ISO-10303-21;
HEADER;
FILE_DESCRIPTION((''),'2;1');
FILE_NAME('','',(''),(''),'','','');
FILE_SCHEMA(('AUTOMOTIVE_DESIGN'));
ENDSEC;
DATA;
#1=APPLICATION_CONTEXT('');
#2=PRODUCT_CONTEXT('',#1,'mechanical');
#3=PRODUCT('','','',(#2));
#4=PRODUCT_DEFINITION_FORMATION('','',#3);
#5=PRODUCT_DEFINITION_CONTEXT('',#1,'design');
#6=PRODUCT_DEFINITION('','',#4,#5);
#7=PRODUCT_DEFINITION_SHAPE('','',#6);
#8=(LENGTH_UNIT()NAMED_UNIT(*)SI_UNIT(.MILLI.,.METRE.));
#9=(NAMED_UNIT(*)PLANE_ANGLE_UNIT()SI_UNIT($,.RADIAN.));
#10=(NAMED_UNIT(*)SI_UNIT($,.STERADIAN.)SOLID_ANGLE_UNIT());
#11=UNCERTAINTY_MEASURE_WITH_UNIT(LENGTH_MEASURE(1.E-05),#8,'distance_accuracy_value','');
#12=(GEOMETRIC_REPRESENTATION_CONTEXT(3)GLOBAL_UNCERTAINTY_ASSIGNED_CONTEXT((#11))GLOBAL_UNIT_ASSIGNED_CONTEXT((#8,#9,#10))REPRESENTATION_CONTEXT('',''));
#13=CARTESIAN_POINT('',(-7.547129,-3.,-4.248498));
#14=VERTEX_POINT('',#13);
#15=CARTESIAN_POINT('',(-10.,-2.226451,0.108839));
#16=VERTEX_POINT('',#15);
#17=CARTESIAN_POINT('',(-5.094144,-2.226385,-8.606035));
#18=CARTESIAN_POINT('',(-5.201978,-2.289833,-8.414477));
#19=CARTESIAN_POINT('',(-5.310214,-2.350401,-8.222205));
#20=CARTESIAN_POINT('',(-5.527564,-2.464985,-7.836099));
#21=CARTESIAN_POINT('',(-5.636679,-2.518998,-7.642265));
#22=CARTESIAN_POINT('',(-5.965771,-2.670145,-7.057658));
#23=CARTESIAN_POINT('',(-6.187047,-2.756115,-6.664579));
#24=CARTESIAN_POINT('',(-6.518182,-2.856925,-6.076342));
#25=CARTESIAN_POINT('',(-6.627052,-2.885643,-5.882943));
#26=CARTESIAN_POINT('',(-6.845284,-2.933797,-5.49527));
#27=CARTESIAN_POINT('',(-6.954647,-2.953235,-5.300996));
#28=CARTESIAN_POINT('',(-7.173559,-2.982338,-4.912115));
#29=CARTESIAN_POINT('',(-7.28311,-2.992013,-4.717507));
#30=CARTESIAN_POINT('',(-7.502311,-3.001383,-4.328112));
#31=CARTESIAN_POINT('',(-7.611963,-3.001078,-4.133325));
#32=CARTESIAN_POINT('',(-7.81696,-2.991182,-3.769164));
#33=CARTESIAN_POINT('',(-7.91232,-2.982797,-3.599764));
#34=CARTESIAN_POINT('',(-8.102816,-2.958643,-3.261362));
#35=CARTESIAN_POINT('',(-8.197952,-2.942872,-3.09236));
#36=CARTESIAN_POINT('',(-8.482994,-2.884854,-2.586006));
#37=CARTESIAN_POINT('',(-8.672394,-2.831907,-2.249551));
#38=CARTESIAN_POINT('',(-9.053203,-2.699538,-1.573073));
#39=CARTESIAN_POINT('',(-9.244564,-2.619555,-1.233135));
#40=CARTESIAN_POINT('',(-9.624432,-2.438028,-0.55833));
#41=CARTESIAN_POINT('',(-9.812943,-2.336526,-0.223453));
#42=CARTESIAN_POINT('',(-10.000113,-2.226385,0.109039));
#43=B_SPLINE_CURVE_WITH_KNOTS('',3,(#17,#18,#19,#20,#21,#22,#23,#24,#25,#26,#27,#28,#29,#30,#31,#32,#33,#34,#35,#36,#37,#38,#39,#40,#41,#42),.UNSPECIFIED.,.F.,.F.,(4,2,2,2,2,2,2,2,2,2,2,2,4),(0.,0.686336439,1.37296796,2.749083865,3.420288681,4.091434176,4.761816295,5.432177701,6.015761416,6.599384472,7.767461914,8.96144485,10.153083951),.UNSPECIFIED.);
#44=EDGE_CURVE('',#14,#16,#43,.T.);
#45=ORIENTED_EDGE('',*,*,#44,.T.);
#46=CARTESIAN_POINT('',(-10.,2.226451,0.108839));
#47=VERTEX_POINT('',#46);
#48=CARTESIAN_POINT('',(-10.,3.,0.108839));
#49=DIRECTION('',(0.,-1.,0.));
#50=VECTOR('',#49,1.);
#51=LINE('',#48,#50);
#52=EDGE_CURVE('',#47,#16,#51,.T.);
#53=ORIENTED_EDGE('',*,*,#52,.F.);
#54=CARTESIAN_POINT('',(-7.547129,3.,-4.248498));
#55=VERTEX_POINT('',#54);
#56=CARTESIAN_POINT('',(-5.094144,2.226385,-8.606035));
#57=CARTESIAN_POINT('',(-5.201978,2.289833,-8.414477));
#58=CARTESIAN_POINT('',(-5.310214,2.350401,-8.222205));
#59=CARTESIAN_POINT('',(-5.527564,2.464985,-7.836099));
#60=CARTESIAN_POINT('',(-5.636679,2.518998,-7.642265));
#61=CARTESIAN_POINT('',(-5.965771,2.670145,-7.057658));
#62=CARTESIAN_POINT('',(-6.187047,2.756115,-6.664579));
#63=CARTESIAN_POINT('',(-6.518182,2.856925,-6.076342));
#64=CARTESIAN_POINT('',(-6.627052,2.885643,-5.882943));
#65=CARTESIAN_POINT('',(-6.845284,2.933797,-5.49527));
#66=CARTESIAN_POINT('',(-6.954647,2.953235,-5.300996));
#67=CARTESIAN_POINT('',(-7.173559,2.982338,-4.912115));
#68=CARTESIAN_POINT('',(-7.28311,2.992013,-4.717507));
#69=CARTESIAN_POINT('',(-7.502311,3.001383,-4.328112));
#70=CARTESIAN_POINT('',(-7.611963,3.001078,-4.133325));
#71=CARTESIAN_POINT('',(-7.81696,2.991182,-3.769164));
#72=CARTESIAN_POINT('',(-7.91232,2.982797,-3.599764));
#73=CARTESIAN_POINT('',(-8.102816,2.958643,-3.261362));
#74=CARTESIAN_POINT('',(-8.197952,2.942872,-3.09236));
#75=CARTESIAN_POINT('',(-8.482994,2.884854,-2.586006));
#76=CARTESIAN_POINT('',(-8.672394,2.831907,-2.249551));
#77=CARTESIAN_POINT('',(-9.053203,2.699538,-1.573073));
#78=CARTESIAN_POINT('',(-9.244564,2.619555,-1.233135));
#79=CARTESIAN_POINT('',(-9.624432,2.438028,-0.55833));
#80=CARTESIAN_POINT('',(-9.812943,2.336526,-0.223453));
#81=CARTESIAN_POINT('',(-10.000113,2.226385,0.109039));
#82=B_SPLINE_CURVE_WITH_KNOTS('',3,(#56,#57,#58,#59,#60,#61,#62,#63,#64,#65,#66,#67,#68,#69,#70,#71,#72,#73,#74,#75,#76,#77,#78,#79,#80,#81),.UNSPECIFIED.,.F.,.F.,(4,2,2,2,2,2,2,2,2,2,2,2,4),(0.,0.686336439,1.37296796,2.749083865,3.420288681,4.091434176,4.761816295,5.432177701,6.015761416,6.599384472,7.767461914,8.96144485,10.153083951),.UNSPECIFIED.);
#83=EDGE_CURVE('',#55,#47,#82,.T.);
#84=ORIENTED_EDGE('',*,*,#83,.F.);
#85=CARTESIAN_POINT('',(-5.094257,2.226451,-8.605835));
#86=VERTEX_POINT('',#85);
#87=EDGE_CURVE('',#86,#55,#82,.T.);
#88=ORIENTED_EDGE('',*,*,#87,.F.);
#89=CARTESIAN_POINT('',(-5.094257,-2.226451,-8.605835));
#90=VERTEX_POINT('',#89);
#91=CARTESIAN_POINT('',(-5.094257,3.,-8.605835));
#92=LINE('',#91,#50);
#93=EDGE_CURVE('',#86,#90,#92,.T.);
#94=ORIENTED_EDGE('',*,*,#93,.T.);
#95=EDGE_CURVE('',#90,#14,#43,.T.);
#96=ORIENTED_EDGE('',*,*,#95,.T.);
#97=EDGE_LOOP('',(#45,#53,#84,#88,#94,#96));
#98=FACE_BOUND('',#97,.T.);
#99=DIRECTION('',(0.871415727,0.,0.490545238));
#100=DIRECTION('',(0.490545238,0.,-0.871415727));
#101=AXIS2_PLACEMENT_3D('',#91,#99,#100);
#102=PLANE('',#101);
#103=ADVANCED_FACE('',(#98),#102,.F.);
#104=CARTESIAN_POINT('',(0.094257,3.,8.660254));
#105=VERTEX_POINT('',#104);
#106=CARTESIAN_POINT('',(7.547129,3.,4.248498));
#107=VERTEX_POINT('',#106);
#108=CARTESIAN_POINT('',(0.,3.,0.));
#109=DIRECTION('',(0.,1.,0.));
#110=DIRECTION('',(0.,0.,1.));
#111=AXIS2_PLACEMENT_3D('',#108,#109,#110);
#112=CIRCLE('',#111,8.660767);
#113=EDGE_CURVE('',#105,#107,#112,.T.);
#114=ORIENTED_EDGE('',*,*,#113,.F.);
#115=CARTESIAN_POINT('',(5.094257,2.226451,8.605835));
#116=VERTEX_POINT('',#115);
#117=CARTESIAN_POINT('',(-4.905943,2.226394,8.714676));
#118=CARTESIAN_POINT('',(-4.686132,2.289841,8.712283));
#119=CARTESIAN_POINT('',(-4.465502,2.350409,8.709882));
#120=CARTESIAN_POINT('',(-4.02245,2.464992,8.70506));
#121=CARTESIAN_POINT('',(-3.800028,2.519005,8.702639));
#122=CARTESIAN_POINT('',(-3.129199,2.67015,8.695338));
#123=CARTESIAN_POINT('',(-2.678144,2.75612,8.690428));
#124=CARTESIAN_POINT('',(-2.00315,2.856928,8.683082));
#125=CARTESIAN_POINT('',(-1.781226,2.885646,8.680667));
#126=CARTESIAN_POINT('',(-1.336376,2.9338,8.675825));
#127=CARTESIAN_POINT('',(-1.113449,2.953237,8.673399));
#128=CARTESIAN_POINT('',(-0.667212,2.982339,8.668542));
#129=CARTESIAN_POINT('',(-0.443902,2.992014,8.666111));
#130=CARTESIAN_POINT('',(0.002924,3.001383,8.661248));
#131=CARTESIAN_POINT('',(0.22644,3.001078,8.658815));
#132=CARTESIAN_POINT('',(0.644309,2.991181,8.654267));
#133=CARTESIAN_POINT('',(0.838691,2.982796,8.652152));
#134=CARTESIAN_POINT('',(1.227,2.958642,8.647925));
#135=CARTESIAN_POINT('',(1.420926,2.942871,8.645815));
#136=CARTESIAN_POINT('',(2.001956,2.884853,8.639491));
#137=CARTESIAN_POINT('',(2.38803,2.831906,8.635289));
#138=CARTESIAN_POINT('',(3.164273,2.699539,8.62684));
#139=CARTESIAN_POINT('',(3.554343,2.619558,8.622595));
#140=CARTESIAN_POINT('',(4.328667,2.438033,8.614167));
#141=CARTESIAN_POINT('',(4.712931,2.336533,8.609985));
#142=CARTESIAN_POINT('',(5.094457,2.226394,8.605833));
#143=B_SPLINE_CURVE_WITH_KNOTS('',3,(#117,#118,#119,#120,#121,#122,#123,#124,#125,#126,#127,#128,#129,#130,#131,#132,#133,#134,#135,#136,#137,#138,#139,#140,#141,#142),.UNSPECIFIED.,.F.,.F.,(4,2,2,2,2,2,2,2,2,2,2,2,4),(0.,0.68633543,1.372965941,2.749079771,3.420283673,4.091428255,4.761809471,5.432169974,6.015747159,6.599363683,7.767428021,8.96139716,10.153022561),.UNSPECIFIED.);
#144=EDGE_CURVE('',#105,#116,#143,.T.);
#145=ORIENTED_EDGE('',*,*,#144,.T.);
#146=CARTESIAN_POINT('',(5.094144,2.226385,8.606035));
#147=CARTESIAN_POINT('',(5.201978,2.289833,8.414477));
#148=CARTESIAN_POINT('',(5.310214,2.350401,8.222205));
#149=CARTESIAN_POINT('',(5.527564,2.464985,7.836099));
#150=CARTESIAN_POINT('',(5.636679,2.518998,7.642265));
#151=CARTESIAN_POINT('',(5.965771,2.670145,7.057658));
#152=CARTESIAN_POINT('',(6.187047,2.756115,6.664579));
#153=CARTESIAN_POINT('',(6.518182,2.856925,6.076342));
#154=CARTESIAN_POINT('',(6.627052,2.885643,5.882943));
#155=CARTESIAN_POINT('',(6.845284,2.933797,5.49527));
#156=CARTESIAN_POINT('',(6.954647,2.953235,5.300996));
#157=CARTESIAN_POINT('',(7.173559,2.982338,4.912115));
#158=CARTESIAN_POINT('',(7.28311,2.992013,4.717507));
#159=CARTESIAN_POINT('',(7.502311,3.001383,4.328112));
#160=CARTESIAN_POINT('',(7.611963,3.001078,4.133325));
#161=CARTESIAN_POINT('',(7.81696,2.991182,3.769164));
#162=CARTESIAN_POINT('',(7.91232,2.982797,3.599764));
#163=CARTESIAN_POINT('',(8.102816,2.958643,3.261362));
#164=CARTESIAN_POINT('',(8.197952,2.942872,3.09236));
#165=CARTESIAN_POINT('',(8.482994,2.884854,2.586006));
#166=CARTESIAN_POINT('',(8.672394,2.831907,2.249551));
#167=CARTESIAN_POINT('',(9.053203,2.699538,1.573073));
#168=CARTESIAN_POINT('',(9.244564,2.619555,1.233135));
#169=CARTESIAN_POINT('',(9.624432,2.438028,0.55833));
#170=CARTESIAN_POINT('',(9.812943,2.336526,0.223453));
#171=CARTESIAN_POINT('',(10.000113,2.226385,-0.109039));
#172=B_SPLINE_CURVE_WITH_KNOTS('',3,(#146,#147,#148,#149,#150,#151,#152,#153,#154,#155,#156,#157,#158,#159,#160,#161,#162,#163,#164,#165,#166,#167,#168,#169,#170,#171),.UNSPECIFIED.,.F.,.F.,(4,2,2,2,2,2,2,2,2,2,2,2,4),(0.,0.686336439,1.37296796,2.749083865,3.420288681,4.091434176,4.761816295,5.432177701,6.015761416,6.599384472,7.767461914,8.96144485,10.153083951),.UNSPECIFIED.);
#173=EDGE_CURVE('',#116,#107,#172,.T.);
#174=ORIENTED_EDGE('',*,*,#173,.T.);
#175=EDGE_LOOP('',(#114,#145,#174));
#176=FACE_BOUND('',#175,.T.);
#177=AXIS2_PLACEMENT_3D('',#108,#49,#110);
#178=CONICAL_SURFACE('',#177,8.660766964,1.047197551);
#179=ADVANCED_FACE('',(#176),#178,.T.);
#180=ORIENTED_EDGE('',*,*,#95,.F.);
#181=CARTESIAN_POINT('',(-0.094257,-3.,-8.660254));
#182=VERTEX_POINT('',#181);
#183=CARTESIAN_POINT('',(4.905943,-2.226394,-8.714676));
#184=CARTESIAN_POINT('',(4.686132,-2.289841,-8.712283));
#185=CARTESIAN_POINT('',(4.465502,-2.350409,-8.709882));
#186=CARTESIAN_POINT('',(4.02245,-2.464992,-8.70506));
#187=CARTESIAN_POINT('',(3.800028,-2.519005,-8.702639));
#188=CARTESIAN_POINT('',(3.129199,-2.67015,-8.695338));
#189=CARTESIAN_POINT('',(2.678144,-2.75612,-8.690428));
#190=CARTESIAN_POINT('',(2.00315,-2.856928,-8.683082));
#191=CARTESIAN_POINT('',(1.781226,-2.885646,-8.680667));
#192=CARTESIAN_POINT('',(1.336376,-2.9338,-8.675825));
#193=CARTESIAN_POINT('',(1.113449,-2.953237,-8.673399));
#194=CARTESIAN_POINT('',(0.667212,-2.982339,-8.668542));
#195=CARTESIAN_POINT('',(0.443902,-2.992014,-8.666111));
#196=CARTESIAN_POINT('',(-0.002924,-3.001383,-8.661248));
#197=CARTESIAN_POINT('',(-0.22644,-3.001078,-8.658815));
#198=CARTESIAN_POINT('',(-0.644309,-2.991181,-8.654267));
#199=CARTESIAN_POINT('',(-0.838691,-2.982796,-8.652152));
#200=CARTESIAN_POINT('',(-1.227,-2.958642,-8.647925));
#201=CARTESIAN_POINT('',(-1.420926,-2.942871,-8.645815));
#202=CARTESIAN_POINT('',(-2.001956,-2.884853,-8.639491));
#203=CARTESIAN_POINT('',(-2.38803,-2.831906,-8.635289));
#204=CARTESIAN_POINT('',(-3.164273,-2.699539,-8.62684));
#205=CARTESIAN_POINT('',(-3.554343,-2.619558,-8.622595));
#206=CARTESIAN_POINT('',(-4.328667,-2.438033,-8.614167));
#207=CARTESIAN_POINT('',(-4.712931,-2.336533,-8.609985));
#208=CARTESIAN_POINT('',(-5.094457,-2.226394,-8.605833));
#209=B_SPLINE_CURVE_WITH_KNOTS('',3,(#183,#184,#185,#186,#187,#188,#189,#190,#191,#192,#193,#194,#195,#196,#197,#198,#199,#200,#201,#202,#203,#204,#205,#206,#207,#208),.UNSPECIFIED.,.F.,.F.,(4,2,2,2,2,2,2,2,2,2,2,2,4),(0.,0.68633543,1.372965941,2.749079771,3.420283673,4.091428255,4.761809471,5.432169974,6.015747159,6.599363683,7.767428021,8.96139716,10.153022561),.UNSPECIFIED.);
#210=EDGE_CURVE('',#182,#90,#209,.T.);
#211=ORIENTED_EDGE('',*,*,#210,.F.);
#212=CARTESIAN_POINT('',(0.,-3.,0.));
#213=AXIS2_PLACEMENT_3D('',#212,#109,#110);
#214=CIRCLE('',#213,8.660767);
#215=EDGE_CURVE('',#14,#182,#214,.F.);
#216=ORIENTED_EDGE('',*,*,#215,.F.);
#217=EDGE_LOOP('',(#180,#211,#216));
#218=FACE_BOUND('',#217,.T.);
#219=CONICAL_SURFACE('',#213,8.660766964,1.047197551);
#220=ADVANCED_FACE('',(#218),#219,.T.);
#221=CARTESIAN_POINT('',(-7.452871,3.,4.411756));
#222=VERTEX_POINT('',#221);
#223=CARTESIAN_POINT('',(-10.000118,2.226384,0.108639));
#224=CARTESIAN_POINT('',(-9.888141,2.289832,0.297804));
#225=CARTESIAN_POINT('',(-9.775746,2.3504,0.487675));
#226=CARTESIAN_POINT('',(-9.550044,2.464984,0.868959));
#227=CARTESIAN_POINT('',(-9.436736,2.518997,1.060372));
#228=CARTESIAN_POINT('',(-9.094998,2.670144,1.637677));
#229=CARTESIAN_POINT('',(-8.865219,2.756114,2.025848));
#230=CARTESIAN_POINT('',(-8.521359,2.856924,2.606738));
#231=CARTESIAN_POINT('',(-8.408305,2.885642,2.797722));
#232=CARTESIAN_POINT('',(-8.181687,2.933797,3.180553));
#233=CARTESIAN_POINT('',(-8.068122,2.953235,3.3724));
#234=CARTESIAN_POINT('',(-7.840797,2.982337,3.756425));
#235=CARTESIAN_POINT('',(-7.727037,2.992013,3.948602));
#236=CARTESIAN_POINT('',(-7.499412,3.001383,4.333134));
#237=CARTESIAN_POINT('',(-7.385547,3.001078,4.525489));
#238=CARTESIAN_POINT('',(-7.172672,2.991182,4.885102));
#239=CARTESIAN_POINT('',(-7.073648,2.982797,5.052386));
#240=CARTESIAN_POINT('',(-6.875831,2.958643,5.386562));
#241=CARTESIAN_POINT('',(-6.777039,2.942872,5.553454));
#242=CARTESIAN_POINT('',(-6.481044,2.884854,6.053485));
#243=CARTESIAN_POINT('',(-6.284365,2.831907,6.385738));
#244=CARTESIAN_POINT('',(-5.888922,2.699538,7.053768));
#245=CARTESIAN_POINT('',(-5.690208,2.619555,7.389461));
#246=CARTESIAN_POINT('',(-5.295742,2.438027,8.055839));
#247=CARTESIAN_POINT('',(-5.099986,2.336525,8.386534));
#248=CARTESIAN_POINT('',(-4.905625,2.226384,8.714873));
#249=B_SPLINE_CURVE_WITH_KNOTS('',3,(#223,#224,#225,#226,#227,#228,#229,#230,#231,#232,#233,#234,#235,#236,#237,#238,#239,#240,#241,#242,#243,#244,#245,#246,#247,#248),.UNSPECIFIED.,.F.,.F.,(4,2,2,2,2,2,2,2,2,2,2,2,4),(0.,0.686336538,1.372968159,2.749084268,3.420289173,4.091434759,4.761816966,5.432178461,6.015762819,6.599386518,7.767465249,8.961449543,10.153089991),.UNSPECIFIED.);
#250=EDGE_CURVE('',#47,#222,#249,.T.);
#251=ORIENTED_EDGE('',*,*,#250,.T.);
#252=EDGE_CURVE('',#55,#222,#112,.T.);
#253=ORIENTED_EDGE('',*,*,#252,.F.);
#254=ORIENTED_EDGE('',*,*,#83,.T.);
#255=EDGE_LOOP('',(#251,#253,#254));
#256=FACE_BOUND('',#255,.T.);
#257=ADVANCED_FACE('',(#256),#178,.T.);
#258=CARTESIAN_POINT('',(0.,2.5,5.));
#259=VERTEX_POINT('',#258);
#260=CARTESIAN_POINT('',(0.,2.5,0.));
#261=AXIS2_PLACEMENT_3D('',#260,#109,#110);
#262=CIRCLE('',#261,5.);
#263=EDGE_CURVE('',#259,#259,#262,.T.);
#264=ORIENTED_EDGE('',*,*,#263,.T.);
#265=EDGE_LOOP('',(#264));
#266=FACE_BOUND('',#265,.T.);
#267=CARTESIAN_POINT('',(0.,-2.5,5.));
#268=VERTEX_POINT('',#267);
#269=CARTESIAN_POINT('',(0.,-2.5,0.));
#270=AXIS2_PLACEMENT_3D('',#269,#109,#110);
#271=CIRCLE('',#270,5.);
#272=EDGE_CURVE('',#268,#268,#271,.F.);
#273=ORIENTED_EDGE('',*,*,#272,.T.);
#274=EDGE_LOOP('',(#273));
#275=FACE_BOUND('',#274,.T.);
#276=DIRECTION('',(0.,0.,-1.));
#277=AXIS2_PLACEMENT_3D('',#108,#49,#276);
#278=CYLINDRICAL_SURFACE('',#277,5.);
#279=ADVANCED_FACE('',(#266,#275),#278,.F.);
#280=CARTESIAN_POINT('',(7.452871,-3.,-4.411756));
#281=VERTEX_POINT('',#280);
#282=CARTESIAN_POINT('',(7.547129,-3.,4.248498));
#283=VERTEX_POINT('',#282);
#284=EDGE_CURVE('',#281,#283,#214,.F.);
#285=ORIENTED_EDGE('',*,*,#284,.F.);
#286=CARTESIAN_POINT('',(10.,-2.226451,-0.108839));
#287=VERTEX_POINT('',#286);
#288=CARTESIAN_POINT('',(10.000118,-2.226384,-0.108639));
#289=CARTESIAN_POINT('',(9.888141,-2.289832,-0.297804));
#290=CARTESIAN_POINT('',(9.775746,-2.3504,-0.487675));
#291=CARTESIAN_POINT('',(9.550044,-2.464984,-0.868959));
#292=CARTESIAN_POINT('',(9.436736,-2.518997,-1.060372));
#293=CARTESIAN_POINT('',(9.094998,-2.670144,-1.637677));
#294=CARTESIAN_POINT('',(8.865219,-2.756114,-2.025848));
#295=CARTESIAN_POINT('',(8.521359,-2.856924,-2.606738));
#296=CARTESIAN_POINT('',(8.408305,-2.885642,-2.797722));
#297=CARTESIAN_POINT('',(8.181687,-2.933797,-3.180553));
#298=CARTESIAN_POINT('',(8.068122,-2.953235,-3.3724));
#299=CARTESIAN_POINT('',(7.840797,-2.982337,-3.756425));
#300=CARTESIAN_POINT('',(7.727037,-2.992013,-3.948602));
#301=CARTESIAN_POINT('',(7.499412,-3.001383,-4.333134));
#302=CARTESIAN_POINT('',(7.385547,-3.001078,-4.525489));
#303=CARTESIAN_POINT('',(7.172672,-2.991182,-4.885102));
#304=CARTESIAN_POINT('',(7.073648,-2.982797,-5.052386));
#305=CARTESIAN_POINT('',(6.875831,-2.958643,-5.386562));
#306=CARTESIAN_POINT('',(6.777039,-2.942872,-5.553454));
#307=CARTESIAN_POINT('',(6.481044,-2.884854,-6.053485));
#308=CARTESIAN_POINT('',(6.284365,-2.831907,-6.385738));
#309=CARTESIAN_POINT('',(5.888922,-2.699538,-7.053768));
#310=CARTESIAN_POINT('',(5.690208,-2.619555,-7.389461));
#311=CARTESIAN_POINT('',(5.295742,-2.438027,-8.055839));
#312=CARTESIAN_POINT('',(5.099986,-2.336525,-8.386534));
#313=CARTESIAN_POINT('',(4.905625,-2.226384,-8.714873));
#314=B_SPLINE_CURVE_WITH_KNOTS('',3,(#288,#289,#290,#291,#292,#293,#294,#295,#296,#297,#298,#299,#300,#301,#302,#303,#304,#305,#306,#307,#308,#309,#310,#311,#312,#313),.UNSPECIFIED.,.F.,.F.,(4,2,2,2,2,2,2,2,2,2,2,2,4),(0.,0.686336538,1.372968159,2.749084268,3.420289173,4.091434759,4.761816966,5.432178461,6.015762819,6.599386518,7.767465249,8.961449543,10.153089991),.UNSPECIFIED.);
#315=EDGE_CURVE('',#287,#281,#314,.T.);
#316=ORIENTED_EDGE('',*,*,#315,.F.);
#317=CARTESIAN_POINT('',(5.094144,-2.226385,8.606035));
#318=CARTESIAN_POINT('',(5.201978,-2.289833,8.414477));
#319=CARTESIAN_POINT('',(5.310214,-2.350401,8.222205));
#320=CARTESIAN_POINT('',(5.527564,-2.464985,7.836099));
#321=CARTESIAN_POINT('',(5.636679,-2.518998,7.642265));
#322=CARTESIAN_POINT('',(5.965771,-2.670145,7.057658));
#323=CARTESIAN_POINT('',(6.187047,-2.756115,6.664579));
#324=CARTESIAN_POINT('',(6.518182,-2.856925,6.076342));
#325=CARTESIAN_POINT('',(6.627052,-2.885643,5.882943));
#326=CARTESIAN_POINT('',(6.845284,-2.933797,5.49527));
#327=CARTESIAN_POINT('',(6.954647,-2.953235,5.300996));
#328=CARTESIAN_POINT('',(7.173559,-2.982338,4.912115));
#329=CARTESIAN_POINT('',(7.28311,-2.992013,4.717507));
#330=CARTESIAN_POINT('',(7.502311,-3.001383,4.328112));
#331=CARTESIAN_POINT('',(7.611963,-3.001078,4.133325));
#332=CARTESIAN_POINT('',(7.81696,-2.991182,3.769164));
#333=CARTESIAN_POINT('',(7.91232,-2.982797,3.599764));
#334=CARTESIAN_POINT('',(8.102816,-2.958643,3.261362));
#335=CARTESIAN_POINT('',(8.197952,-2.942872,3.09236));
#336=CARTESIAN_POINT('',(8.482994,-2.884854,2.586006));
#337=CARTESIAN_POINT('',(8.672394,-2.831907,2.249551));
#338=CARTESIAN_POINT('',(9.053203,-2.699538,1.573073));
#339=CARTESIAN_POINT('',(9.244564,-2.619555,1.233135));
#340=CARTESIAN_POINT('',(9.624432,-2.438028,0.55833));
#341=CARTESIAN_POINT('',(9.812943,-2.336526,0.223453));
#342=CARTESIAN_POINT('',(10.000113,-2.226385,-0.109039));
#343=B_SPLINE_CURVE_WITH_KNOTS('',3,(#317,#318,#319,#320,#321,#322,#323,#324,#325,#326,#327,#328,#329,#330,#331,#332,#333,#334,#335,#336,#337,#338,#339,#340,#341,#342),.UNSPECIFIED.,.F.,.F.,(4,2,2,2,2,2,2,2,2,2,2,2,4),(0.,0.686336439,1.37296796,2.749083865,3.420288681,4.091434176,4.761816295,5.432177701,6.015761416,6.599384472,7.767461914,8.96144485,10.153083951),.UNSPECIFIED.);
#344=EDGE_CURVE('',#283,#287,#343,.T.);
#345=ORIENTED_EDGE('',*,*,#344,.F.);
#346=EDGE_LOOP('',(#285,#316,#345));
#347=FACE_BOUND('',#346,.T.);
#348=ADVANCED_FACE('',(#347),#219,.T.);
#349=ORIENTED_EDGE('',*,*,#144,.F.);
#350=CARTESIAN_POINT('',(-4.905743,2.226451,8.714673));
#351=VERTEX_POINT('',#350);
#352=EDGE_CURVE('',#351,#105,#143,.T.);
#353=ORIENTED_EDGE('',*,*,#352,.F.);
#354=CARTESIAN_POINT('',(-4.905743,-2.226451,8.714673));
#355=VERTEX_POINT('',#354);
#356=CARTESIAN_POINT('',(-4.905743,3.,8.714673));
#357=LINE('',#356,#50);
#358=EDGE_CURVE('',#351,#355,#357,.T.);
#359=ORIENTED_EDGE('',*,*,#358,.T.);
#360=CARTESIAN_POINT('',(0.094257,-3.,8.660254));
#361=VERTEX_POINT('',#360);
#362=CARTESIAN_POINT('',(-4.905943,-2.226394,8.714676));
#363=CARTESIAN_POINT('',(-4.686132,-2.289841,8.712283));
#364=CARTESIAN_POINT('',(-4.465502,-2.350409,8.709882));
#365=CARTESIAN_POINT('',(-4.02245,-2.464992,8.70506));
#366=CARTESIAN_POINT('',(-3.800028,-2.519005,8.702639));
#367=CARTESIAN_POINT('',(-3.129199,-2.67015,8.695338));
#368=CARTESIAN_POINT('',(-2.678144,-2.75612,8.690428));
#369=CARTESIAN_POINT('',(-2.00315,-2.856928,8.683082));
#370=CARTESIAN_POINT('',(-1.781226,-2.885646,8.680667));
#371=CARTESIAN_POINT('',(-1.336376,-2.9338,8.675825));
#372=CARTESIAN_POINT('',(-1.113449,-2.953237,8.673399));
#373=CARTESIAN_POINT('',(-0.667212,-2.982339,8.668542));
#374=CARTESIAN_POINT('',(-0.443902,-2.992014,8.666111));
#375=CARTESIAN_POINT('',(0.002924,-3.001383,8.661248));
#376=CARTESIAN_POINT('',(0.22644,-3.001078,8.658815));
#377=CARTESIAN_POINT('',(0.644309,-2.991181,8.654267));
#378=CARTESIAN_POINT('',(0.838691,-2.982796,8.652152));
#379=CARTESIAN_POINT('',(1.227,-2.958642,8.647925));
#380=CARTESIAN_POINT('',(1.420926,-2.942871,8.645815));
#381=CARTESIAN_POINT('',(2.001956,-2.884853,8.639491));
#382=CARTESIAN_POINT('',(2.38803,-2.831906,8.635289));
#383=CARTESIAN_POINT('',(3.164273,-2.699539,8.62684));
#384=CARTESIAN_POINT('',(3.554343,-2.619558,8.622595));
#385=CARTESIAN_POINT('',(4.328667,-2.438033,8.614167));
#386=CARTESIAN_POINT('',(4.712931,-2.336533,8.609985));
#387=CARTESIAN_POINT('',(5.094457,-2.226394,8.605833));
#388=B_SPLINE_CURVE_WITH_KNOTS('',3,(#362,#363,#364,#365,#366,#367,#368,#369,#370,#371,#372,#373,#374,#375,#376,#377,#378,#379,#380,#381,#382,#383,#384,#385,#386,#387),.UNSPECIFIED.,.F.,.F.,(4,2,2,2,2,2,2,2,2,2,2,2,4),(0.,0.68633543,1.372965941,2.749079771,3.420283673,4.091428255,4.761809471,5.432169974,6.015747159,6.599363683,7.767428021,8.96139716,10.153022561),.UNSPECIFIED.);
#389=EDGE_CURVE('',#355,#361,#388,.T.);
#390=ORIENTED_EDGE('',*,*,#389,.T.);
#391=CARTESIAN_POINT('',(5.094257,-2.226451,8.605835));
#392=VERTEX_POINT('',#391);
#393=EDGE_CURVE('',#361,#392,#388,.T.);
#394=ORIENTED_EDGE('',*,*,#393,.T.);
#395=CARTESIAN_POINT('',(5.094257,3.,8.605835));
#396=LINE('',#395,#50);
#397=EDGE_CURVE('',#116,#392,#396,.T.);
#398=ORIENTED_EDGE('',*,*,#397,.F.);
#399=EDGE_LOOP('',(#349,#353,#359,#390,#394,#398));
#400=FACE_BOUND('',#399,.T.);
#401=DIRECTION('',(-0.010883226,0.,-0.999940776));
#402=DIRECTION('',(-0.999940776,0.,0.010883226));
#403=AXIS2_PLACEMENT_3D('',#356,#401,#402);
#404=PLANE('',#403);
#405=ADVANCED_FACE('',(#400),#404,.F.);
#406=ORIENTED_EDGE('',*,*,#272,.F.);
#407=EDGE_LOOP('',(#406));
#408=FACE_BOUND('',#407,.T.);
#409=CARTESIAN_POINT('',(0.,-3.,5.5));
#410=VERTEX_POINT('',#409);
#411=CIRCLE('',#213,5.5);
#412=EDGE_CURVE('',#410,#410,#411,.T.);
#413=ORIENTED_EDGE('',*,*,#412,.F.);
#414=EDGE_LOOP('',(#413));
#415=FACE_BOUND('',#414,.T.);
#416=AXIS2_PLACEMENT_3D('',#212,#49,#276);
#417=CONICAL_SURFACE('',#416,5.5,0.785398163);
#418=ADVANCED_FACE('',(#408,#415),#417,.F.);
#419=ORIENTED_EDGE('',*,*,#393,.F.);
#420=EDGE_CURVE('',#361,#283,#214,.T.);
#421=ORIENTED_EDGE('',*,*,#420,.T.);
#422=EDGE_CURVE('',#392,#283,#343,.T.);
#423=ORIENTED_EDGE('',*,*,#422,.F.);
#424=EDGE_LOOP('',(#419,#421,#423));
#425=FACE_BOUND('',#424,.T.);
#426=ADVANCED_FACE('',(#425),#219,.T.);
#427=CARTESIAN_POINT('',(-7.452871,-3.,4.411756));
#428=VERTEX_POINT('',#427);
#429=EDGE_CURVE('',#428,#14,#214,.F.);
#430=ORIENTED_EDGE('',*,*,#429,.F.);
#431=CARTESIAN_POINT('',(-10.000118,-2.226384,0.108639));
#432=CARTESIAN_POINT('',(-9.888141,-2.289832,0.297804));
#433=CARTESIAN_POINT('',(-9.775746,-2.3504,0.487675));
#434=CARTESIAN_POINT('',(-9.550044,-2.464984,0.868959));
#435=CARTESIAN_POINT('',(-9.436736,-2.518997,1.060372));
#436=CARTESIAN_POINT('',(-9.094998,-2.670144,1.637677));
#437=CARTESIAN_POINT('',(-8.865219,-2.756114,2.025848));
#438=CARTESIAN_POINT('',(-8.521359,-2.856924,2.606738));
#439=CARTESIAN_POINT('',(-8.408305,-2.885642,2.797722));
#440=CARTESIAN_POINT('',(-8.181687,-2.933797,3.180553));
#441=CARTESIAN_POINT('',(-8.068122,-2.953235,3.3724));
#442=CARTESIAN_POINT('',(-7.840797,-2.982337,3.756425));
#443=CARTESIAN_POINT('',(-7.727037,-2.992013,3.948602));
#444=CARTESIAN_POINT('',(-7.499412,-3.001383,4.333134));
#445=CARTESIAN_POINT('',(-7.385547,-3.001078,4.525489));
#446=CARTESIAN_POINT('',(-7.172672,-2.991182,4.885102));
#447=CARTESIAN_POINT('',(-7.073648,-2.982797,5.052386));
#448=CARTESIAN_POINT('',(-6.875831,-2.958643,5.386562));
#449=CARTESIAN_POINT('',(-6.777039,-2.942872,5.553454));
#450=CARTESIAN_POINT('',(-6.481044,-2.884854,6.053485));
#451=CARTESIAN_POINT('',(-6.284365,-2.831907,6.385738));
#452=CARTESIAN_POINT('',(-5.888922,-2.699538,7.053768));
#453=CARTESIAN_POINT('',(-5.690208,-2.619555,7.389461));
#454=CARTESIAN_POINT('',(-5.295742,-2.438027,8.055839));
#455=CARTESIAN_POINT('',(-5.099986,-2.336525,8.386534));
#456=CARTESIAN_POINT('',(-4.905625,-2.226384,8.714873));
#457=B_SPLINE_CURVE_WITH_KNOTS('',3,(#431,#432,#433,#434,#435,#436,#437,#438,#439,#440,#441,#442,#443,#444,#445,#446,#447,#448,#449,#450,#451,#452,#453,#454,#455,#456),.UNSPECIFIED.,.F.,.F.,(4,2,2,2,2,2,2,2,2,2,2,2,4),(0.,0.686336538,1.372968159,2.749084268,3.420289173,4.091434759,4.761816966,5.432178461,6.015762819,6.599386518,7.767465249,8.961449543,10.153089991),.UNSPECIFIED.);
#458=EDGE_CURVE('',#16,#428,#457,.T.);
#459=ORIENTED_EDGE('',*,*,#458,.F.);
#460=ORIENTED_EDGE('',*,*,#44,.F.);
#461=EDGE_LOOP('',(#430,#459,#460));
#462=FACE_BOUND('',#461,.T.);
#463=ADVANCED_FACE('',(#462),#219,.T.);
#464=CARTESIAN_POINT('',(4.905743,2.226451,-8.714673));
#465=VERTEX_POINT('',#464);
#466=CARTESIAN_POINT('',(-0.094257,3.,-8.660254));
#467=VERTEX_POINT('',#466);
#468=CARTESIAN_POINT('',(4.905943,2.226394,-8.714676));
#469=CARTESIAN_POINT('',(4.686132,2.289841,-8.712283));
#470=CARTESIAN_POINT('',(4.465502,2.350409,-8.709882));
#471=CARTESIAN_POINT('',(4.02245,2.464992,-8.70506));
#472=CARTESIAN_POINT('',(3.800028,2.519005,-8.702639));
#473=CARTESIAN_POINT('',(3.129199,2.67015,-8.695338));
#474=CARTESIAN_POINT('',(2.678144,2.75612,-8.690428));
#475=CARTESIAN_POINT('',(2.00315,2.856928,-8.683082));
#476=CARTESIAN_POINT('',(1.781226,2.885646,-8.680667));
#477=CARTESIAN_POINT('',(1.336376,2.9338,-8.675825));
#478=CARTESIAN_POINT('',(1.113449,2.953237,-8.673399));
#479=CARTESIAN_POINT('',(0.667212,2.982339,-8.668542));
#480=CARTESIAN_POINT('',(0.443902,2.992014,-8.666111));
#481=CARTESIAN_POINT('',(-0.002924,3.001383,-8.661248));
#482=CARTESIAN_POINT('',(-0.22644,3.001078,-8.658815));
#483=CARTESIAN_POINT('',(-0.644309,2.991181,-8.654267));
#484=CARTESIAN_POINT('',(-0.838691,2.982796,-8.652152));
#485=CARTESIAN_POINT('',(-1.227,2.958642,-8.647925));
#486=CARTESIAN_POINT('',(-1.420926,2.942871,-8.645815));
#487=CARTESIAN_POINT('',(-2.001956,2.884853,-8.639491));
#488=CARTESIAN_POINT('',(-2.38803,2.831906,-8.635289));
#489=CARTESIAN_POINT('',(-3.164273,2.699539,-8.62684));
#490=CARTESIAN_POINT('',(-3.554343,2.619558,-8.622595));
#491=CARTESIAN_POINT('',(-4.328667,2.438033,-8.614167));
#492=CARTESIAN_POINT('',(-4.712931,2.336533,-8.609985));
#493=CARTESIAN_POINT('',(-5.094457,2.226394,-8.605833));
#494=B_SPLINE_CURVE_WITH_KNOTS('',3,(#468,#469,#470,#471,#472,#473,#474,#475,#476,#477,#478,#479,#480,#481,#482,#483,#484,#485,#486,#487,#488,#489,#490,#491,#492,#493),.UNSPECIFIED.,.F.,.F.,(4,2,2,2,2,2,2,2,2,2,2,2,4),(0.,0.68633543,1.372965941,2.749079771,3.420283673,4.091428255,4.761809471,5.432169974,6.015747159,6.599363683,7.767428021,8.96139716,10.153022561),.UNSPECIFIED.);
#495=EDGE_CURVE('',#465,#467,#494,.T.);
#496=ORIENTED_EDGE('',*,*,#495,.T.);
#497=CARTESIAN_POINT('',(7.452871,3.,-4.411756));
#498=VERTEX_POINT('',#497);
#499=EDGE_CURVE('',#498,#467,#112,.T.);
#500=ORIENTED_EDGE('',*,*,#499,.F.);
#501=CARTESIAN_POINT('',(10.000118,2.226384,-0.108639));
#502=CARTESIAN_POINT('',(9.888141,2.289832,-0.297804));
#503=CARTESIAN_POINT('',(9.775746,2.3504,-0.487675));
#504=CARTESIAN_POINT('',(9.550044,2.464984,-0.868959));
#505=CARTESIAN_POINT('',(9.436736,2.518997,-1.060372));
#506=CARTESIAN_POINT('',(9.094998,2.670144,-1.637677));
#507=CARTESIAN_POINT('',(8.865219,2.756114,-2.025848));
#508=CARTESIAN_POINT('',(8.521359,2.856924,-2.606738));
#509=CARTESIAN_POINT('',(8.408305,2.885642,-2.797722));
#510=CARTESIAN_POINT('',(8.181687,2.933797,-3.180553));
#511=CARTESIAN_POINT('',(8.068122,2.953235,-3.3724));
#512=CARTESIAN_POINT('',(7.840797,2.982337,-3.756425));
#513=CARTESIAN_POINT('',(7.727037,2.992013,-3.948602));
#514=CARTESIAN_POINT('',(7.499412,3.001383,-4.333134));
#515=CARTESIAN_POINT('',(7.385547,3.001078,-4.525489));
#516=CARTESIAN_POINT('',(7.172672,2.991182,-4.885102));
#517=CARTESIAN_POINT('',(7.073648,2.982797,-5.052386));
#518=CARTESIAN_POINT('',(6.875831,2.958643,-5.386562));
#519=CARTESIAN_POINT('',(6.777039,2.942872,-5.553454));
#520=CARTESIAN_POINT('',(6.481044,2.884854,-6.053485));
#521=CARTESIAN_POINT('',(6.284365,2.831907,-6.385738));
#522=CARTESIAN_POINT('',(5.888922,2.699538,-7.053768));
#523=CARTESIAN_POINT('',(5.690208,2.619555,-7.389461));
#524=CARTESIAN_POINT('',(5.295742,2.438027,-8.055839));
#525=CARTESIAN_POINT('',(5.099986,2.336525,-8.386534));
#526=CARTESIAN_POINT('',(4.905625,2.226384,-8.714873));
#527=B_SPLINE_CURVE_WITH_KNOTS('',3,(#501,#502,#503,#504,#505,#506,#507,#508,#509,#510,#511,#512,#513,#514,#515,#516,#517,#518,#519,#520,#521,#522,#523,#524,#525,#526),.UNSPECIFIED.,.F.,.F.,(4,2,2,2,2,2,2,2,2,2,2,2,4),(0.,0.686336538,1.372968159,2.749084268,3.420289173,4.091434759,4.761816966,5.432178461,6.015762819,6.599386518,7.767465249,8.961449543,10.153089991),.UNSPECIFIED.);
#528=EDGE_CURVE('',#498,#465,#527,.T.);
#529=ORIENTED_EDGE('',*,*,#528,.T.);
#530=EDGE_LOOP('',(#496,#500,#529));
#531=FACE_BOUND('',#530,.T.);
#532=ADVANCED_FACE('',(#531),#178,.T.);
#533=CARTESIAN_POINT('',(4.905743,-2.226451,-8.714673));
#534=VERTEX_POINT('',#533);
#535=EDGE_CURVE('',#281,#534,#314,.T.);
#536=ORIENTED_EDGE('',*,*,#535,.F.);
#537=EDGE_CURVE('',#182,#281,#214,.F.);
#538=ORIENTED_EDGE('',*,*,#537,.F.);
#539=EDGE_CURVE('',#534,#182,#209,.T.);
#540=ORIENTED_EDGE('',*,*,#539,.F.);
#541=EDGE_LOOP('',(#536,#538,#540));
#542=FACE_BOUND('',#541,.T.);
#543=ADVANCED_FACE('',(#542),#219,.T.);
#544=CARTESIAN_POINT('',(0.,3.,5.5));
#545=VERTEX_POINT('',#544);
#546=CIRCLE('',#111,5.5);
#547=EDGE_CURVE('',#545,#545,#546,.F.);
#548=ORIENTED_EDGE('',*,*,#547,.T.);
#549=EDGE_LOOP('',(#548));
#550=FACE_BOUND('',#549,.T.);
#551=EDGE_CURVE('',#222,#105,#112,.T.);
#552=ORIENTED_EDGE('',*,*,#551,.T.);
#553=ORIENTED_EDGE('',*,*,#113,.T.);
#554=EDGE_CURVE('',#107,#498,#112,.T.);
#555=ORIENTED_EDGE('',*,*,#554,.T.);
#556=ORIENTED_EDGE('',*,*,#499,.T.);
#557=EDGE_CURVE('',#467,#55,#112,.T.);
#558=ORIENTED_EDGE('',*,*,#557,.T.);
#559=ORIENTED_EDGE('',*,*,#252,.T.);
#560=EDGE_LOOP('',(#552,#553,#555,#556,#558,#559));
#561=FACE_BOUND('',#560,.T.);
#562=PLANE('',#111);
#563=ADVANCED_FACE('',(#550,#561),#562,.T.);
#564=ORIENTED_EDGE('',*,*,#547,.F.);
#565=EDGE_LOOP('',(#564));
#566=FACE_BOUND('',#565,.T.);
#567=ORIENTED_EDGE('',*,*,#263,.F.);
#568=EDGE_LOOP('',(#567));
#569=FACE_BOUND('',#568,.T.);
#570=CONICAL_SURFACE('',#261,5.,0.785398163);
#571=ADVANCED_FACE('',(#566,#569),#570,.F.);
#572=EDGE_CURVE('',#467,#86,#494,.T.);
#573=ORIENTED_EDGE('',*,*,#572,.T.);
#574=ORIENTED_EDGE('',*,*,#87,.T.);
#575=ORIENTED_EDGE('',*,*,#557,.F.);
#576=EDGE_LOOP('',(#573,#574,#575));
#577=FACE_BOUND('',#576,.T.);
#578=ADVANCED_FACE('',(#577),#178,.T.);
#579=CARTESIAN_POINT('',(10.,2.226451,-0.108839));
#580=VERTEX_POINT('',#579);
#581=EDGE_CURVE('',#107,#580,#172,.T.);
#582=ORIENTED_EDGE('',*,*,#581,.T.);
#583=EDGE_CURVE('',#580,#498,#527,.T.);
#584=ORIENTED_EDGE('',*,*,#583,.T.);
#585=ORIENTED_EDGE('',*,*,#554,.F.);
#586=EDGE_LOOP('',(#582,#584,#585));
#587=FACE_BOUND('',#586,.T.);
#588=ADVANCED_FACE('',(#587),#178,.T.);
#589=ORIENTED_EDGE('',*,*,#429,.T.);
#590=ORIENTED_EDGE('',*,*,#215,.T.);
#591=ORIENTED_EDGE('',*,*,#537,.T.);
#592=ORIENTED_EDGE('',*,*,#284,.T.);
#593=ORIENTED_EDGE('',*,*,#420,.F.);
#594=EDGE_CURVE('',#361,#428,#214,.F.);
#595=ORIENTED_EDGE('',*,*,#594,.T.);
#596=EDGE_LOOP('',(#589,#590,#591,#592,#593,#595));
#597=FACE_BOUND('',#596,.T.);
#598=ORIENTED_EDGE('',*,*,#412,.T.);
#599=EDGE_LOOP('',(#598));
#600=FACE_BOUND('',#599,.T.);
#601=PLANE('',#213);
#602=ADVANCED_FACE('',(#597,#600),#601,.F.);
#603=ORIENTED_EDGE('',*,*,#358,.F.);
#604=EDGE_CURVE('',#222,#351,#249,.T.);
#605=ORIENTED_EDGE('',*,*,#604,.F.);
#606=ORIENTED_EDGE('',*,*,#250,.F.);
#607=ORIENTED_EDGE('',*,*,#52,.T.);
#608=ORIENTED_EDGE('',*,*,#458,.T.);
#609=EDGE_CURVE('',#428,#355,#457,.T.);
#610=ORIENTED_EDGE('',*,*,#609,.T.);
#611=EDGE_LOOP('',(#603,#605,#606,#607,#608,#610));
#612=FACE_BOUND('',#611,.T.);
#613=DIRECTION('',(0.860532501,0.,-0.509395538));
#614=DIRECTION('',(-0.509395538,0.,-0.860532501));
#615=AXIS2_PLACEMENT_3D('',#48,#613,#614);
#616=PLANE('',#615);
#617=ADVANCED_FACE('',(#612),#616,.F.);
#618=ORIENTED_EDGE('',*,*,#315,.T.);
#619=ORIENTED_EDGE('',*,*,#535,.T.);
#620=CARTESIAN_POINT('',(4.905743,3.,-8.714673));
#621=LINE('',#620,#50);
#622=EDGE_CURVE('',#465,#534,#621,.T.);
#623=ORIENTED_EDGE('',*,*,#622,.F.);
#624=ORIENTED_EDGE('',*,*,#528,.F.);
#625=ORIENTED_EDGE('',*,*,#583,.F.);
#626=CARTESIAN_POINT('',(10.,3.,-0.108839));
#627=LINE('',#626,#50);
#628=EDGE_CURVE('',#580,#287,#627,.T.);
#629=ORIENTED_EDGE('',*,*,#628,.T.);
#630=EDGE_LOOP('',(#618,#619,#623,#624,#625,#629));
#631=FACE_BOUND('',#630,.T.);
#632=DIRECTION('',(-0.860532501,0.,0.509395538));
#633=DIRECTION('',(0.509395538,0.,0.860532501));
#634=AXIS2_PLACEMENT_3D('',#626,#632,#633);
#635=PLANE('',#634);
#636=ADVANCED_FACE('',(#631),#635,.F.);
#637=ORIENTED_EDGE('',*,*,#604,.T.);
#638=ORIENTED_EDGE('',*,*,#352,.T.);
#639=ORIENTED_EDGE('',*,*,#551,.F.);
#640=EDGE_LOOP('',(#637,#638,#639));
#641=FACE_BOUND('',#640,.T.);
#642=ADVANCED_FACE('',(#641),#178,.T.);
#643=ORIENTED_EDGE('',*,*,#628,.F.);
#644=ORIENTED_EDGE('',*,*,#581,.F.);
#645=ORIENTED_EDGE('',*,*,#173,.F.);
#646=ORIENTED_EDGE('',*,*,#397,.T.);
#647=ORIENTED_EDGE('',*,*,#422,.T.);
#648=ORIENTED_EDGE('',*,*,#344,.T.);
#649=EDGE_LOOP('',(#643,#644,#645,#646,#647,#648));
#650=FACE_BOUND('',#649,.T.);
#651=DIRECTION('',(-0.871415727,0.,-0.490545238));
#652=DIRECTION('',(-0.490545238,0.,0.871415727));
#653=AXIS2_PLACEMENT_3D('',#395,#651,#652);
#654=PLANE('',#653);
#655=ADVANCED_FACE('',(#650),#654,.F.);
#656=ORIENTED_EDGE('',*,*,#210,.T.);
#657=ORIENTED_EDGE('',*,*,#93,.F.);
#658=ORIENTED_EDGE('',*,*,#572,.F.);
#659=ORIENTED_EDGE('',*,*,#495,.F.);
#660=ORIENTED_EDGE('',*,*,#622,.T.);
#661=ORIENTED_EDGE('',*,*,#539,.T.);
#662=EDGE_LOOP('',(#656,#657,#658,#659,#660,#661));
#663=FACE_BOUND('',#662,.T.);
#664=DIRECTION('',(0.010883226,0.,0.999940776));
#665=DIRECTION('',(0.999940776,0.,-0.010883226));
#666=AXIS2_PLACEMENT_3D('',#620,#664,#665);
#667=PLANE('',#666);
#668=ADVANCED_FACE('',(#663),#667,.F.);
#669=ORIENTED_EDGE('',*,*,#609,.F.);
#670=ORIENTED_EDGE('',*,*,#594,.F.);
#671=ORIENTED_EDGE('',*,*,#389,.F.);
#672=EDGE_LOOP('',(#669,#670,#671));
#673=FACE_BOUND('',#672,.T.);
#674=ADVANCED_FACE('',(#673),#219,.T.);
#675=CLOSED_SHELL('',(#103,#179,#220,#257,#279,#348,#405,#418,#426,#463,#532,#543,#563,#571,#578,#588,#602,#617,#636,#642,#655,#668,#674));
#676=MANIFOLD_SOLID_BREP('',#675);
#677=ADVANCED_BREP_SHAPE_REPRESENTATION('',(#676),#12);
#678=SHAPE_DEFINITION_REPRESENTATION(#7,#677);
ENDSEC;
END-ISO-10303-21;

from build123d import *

# Parameters (mm, degrees)
SKETCH1_R           = 5
BOSS_EXTRUDE1_DEPTH = 3
CHAMFER1_SIZE       = 0.5
SKETCH2_OUTSIDE_W   = 62.08
SKETCH2_OUTSIDE_H   = 59.51
SKETCH2_OUTSIDE_R   = 8.660766964
CUT_EXTRUDE1_DEPTH  = 10
CUT_EXTRUDE1_TAPER  = 60


with BuildPart() as part:
    # Sketch1 → Boss-Extrude1 (new body, symmetric)
    with BuildSketch(Plane(origin=(0, 0, 0), x_dir=(1, 0, 0), z_dir=(0, 1, 0))):
        Polygon((-4.905742916, -8.714673391), (5.094257084, -8.605834685), (10, 0.108838706), (4.905742916, 8.714673391), (-5.094257084, 8.605834685), (-10, -0.108838706), align=None)
        Circle(SKETCH1_R, mode=Mode.SUBTRACT)
    extrude(amount=BOSS_EXTRUDE1_DEPTH, both=True)

    # Chamfer1
    chamfer1_edges = [part.edges().sort_by_distance(p)[0] for p in [
        (-5, -3, 0),
        (-5, 3, 0),
    ]]
    chamfer(chamfer1_edges, length=CHAMFER1_SIZE)

    # Sketch2 outside → Cut-Extrude1 (cut)
    with BuildSketch(Plane(origin=(0, 3, 0), x_dir=(1, 0, 0), z_dir=(0, 1, 0))):
        Rectangle(SKETCH2_OUTSIDE_W, SKETCH2_OUTSIDE_H)
        Circle(SKETCH2_OUTSIDE_R, mode=Mode.SUBTRACT)
    cut_extrude1 = extrude(amount=-CUT_EXTRUDE1_DEPTH, taper=CUT_EXTRUDE1_TAPER, mode=Mode.SUBTRACT)

    # Mirror1: Cut-Extrude1 across plane
    add(cut_extrude1.mirror(Plane.ZX), mode=Mode.SUBTRACT)


solid = part.part
